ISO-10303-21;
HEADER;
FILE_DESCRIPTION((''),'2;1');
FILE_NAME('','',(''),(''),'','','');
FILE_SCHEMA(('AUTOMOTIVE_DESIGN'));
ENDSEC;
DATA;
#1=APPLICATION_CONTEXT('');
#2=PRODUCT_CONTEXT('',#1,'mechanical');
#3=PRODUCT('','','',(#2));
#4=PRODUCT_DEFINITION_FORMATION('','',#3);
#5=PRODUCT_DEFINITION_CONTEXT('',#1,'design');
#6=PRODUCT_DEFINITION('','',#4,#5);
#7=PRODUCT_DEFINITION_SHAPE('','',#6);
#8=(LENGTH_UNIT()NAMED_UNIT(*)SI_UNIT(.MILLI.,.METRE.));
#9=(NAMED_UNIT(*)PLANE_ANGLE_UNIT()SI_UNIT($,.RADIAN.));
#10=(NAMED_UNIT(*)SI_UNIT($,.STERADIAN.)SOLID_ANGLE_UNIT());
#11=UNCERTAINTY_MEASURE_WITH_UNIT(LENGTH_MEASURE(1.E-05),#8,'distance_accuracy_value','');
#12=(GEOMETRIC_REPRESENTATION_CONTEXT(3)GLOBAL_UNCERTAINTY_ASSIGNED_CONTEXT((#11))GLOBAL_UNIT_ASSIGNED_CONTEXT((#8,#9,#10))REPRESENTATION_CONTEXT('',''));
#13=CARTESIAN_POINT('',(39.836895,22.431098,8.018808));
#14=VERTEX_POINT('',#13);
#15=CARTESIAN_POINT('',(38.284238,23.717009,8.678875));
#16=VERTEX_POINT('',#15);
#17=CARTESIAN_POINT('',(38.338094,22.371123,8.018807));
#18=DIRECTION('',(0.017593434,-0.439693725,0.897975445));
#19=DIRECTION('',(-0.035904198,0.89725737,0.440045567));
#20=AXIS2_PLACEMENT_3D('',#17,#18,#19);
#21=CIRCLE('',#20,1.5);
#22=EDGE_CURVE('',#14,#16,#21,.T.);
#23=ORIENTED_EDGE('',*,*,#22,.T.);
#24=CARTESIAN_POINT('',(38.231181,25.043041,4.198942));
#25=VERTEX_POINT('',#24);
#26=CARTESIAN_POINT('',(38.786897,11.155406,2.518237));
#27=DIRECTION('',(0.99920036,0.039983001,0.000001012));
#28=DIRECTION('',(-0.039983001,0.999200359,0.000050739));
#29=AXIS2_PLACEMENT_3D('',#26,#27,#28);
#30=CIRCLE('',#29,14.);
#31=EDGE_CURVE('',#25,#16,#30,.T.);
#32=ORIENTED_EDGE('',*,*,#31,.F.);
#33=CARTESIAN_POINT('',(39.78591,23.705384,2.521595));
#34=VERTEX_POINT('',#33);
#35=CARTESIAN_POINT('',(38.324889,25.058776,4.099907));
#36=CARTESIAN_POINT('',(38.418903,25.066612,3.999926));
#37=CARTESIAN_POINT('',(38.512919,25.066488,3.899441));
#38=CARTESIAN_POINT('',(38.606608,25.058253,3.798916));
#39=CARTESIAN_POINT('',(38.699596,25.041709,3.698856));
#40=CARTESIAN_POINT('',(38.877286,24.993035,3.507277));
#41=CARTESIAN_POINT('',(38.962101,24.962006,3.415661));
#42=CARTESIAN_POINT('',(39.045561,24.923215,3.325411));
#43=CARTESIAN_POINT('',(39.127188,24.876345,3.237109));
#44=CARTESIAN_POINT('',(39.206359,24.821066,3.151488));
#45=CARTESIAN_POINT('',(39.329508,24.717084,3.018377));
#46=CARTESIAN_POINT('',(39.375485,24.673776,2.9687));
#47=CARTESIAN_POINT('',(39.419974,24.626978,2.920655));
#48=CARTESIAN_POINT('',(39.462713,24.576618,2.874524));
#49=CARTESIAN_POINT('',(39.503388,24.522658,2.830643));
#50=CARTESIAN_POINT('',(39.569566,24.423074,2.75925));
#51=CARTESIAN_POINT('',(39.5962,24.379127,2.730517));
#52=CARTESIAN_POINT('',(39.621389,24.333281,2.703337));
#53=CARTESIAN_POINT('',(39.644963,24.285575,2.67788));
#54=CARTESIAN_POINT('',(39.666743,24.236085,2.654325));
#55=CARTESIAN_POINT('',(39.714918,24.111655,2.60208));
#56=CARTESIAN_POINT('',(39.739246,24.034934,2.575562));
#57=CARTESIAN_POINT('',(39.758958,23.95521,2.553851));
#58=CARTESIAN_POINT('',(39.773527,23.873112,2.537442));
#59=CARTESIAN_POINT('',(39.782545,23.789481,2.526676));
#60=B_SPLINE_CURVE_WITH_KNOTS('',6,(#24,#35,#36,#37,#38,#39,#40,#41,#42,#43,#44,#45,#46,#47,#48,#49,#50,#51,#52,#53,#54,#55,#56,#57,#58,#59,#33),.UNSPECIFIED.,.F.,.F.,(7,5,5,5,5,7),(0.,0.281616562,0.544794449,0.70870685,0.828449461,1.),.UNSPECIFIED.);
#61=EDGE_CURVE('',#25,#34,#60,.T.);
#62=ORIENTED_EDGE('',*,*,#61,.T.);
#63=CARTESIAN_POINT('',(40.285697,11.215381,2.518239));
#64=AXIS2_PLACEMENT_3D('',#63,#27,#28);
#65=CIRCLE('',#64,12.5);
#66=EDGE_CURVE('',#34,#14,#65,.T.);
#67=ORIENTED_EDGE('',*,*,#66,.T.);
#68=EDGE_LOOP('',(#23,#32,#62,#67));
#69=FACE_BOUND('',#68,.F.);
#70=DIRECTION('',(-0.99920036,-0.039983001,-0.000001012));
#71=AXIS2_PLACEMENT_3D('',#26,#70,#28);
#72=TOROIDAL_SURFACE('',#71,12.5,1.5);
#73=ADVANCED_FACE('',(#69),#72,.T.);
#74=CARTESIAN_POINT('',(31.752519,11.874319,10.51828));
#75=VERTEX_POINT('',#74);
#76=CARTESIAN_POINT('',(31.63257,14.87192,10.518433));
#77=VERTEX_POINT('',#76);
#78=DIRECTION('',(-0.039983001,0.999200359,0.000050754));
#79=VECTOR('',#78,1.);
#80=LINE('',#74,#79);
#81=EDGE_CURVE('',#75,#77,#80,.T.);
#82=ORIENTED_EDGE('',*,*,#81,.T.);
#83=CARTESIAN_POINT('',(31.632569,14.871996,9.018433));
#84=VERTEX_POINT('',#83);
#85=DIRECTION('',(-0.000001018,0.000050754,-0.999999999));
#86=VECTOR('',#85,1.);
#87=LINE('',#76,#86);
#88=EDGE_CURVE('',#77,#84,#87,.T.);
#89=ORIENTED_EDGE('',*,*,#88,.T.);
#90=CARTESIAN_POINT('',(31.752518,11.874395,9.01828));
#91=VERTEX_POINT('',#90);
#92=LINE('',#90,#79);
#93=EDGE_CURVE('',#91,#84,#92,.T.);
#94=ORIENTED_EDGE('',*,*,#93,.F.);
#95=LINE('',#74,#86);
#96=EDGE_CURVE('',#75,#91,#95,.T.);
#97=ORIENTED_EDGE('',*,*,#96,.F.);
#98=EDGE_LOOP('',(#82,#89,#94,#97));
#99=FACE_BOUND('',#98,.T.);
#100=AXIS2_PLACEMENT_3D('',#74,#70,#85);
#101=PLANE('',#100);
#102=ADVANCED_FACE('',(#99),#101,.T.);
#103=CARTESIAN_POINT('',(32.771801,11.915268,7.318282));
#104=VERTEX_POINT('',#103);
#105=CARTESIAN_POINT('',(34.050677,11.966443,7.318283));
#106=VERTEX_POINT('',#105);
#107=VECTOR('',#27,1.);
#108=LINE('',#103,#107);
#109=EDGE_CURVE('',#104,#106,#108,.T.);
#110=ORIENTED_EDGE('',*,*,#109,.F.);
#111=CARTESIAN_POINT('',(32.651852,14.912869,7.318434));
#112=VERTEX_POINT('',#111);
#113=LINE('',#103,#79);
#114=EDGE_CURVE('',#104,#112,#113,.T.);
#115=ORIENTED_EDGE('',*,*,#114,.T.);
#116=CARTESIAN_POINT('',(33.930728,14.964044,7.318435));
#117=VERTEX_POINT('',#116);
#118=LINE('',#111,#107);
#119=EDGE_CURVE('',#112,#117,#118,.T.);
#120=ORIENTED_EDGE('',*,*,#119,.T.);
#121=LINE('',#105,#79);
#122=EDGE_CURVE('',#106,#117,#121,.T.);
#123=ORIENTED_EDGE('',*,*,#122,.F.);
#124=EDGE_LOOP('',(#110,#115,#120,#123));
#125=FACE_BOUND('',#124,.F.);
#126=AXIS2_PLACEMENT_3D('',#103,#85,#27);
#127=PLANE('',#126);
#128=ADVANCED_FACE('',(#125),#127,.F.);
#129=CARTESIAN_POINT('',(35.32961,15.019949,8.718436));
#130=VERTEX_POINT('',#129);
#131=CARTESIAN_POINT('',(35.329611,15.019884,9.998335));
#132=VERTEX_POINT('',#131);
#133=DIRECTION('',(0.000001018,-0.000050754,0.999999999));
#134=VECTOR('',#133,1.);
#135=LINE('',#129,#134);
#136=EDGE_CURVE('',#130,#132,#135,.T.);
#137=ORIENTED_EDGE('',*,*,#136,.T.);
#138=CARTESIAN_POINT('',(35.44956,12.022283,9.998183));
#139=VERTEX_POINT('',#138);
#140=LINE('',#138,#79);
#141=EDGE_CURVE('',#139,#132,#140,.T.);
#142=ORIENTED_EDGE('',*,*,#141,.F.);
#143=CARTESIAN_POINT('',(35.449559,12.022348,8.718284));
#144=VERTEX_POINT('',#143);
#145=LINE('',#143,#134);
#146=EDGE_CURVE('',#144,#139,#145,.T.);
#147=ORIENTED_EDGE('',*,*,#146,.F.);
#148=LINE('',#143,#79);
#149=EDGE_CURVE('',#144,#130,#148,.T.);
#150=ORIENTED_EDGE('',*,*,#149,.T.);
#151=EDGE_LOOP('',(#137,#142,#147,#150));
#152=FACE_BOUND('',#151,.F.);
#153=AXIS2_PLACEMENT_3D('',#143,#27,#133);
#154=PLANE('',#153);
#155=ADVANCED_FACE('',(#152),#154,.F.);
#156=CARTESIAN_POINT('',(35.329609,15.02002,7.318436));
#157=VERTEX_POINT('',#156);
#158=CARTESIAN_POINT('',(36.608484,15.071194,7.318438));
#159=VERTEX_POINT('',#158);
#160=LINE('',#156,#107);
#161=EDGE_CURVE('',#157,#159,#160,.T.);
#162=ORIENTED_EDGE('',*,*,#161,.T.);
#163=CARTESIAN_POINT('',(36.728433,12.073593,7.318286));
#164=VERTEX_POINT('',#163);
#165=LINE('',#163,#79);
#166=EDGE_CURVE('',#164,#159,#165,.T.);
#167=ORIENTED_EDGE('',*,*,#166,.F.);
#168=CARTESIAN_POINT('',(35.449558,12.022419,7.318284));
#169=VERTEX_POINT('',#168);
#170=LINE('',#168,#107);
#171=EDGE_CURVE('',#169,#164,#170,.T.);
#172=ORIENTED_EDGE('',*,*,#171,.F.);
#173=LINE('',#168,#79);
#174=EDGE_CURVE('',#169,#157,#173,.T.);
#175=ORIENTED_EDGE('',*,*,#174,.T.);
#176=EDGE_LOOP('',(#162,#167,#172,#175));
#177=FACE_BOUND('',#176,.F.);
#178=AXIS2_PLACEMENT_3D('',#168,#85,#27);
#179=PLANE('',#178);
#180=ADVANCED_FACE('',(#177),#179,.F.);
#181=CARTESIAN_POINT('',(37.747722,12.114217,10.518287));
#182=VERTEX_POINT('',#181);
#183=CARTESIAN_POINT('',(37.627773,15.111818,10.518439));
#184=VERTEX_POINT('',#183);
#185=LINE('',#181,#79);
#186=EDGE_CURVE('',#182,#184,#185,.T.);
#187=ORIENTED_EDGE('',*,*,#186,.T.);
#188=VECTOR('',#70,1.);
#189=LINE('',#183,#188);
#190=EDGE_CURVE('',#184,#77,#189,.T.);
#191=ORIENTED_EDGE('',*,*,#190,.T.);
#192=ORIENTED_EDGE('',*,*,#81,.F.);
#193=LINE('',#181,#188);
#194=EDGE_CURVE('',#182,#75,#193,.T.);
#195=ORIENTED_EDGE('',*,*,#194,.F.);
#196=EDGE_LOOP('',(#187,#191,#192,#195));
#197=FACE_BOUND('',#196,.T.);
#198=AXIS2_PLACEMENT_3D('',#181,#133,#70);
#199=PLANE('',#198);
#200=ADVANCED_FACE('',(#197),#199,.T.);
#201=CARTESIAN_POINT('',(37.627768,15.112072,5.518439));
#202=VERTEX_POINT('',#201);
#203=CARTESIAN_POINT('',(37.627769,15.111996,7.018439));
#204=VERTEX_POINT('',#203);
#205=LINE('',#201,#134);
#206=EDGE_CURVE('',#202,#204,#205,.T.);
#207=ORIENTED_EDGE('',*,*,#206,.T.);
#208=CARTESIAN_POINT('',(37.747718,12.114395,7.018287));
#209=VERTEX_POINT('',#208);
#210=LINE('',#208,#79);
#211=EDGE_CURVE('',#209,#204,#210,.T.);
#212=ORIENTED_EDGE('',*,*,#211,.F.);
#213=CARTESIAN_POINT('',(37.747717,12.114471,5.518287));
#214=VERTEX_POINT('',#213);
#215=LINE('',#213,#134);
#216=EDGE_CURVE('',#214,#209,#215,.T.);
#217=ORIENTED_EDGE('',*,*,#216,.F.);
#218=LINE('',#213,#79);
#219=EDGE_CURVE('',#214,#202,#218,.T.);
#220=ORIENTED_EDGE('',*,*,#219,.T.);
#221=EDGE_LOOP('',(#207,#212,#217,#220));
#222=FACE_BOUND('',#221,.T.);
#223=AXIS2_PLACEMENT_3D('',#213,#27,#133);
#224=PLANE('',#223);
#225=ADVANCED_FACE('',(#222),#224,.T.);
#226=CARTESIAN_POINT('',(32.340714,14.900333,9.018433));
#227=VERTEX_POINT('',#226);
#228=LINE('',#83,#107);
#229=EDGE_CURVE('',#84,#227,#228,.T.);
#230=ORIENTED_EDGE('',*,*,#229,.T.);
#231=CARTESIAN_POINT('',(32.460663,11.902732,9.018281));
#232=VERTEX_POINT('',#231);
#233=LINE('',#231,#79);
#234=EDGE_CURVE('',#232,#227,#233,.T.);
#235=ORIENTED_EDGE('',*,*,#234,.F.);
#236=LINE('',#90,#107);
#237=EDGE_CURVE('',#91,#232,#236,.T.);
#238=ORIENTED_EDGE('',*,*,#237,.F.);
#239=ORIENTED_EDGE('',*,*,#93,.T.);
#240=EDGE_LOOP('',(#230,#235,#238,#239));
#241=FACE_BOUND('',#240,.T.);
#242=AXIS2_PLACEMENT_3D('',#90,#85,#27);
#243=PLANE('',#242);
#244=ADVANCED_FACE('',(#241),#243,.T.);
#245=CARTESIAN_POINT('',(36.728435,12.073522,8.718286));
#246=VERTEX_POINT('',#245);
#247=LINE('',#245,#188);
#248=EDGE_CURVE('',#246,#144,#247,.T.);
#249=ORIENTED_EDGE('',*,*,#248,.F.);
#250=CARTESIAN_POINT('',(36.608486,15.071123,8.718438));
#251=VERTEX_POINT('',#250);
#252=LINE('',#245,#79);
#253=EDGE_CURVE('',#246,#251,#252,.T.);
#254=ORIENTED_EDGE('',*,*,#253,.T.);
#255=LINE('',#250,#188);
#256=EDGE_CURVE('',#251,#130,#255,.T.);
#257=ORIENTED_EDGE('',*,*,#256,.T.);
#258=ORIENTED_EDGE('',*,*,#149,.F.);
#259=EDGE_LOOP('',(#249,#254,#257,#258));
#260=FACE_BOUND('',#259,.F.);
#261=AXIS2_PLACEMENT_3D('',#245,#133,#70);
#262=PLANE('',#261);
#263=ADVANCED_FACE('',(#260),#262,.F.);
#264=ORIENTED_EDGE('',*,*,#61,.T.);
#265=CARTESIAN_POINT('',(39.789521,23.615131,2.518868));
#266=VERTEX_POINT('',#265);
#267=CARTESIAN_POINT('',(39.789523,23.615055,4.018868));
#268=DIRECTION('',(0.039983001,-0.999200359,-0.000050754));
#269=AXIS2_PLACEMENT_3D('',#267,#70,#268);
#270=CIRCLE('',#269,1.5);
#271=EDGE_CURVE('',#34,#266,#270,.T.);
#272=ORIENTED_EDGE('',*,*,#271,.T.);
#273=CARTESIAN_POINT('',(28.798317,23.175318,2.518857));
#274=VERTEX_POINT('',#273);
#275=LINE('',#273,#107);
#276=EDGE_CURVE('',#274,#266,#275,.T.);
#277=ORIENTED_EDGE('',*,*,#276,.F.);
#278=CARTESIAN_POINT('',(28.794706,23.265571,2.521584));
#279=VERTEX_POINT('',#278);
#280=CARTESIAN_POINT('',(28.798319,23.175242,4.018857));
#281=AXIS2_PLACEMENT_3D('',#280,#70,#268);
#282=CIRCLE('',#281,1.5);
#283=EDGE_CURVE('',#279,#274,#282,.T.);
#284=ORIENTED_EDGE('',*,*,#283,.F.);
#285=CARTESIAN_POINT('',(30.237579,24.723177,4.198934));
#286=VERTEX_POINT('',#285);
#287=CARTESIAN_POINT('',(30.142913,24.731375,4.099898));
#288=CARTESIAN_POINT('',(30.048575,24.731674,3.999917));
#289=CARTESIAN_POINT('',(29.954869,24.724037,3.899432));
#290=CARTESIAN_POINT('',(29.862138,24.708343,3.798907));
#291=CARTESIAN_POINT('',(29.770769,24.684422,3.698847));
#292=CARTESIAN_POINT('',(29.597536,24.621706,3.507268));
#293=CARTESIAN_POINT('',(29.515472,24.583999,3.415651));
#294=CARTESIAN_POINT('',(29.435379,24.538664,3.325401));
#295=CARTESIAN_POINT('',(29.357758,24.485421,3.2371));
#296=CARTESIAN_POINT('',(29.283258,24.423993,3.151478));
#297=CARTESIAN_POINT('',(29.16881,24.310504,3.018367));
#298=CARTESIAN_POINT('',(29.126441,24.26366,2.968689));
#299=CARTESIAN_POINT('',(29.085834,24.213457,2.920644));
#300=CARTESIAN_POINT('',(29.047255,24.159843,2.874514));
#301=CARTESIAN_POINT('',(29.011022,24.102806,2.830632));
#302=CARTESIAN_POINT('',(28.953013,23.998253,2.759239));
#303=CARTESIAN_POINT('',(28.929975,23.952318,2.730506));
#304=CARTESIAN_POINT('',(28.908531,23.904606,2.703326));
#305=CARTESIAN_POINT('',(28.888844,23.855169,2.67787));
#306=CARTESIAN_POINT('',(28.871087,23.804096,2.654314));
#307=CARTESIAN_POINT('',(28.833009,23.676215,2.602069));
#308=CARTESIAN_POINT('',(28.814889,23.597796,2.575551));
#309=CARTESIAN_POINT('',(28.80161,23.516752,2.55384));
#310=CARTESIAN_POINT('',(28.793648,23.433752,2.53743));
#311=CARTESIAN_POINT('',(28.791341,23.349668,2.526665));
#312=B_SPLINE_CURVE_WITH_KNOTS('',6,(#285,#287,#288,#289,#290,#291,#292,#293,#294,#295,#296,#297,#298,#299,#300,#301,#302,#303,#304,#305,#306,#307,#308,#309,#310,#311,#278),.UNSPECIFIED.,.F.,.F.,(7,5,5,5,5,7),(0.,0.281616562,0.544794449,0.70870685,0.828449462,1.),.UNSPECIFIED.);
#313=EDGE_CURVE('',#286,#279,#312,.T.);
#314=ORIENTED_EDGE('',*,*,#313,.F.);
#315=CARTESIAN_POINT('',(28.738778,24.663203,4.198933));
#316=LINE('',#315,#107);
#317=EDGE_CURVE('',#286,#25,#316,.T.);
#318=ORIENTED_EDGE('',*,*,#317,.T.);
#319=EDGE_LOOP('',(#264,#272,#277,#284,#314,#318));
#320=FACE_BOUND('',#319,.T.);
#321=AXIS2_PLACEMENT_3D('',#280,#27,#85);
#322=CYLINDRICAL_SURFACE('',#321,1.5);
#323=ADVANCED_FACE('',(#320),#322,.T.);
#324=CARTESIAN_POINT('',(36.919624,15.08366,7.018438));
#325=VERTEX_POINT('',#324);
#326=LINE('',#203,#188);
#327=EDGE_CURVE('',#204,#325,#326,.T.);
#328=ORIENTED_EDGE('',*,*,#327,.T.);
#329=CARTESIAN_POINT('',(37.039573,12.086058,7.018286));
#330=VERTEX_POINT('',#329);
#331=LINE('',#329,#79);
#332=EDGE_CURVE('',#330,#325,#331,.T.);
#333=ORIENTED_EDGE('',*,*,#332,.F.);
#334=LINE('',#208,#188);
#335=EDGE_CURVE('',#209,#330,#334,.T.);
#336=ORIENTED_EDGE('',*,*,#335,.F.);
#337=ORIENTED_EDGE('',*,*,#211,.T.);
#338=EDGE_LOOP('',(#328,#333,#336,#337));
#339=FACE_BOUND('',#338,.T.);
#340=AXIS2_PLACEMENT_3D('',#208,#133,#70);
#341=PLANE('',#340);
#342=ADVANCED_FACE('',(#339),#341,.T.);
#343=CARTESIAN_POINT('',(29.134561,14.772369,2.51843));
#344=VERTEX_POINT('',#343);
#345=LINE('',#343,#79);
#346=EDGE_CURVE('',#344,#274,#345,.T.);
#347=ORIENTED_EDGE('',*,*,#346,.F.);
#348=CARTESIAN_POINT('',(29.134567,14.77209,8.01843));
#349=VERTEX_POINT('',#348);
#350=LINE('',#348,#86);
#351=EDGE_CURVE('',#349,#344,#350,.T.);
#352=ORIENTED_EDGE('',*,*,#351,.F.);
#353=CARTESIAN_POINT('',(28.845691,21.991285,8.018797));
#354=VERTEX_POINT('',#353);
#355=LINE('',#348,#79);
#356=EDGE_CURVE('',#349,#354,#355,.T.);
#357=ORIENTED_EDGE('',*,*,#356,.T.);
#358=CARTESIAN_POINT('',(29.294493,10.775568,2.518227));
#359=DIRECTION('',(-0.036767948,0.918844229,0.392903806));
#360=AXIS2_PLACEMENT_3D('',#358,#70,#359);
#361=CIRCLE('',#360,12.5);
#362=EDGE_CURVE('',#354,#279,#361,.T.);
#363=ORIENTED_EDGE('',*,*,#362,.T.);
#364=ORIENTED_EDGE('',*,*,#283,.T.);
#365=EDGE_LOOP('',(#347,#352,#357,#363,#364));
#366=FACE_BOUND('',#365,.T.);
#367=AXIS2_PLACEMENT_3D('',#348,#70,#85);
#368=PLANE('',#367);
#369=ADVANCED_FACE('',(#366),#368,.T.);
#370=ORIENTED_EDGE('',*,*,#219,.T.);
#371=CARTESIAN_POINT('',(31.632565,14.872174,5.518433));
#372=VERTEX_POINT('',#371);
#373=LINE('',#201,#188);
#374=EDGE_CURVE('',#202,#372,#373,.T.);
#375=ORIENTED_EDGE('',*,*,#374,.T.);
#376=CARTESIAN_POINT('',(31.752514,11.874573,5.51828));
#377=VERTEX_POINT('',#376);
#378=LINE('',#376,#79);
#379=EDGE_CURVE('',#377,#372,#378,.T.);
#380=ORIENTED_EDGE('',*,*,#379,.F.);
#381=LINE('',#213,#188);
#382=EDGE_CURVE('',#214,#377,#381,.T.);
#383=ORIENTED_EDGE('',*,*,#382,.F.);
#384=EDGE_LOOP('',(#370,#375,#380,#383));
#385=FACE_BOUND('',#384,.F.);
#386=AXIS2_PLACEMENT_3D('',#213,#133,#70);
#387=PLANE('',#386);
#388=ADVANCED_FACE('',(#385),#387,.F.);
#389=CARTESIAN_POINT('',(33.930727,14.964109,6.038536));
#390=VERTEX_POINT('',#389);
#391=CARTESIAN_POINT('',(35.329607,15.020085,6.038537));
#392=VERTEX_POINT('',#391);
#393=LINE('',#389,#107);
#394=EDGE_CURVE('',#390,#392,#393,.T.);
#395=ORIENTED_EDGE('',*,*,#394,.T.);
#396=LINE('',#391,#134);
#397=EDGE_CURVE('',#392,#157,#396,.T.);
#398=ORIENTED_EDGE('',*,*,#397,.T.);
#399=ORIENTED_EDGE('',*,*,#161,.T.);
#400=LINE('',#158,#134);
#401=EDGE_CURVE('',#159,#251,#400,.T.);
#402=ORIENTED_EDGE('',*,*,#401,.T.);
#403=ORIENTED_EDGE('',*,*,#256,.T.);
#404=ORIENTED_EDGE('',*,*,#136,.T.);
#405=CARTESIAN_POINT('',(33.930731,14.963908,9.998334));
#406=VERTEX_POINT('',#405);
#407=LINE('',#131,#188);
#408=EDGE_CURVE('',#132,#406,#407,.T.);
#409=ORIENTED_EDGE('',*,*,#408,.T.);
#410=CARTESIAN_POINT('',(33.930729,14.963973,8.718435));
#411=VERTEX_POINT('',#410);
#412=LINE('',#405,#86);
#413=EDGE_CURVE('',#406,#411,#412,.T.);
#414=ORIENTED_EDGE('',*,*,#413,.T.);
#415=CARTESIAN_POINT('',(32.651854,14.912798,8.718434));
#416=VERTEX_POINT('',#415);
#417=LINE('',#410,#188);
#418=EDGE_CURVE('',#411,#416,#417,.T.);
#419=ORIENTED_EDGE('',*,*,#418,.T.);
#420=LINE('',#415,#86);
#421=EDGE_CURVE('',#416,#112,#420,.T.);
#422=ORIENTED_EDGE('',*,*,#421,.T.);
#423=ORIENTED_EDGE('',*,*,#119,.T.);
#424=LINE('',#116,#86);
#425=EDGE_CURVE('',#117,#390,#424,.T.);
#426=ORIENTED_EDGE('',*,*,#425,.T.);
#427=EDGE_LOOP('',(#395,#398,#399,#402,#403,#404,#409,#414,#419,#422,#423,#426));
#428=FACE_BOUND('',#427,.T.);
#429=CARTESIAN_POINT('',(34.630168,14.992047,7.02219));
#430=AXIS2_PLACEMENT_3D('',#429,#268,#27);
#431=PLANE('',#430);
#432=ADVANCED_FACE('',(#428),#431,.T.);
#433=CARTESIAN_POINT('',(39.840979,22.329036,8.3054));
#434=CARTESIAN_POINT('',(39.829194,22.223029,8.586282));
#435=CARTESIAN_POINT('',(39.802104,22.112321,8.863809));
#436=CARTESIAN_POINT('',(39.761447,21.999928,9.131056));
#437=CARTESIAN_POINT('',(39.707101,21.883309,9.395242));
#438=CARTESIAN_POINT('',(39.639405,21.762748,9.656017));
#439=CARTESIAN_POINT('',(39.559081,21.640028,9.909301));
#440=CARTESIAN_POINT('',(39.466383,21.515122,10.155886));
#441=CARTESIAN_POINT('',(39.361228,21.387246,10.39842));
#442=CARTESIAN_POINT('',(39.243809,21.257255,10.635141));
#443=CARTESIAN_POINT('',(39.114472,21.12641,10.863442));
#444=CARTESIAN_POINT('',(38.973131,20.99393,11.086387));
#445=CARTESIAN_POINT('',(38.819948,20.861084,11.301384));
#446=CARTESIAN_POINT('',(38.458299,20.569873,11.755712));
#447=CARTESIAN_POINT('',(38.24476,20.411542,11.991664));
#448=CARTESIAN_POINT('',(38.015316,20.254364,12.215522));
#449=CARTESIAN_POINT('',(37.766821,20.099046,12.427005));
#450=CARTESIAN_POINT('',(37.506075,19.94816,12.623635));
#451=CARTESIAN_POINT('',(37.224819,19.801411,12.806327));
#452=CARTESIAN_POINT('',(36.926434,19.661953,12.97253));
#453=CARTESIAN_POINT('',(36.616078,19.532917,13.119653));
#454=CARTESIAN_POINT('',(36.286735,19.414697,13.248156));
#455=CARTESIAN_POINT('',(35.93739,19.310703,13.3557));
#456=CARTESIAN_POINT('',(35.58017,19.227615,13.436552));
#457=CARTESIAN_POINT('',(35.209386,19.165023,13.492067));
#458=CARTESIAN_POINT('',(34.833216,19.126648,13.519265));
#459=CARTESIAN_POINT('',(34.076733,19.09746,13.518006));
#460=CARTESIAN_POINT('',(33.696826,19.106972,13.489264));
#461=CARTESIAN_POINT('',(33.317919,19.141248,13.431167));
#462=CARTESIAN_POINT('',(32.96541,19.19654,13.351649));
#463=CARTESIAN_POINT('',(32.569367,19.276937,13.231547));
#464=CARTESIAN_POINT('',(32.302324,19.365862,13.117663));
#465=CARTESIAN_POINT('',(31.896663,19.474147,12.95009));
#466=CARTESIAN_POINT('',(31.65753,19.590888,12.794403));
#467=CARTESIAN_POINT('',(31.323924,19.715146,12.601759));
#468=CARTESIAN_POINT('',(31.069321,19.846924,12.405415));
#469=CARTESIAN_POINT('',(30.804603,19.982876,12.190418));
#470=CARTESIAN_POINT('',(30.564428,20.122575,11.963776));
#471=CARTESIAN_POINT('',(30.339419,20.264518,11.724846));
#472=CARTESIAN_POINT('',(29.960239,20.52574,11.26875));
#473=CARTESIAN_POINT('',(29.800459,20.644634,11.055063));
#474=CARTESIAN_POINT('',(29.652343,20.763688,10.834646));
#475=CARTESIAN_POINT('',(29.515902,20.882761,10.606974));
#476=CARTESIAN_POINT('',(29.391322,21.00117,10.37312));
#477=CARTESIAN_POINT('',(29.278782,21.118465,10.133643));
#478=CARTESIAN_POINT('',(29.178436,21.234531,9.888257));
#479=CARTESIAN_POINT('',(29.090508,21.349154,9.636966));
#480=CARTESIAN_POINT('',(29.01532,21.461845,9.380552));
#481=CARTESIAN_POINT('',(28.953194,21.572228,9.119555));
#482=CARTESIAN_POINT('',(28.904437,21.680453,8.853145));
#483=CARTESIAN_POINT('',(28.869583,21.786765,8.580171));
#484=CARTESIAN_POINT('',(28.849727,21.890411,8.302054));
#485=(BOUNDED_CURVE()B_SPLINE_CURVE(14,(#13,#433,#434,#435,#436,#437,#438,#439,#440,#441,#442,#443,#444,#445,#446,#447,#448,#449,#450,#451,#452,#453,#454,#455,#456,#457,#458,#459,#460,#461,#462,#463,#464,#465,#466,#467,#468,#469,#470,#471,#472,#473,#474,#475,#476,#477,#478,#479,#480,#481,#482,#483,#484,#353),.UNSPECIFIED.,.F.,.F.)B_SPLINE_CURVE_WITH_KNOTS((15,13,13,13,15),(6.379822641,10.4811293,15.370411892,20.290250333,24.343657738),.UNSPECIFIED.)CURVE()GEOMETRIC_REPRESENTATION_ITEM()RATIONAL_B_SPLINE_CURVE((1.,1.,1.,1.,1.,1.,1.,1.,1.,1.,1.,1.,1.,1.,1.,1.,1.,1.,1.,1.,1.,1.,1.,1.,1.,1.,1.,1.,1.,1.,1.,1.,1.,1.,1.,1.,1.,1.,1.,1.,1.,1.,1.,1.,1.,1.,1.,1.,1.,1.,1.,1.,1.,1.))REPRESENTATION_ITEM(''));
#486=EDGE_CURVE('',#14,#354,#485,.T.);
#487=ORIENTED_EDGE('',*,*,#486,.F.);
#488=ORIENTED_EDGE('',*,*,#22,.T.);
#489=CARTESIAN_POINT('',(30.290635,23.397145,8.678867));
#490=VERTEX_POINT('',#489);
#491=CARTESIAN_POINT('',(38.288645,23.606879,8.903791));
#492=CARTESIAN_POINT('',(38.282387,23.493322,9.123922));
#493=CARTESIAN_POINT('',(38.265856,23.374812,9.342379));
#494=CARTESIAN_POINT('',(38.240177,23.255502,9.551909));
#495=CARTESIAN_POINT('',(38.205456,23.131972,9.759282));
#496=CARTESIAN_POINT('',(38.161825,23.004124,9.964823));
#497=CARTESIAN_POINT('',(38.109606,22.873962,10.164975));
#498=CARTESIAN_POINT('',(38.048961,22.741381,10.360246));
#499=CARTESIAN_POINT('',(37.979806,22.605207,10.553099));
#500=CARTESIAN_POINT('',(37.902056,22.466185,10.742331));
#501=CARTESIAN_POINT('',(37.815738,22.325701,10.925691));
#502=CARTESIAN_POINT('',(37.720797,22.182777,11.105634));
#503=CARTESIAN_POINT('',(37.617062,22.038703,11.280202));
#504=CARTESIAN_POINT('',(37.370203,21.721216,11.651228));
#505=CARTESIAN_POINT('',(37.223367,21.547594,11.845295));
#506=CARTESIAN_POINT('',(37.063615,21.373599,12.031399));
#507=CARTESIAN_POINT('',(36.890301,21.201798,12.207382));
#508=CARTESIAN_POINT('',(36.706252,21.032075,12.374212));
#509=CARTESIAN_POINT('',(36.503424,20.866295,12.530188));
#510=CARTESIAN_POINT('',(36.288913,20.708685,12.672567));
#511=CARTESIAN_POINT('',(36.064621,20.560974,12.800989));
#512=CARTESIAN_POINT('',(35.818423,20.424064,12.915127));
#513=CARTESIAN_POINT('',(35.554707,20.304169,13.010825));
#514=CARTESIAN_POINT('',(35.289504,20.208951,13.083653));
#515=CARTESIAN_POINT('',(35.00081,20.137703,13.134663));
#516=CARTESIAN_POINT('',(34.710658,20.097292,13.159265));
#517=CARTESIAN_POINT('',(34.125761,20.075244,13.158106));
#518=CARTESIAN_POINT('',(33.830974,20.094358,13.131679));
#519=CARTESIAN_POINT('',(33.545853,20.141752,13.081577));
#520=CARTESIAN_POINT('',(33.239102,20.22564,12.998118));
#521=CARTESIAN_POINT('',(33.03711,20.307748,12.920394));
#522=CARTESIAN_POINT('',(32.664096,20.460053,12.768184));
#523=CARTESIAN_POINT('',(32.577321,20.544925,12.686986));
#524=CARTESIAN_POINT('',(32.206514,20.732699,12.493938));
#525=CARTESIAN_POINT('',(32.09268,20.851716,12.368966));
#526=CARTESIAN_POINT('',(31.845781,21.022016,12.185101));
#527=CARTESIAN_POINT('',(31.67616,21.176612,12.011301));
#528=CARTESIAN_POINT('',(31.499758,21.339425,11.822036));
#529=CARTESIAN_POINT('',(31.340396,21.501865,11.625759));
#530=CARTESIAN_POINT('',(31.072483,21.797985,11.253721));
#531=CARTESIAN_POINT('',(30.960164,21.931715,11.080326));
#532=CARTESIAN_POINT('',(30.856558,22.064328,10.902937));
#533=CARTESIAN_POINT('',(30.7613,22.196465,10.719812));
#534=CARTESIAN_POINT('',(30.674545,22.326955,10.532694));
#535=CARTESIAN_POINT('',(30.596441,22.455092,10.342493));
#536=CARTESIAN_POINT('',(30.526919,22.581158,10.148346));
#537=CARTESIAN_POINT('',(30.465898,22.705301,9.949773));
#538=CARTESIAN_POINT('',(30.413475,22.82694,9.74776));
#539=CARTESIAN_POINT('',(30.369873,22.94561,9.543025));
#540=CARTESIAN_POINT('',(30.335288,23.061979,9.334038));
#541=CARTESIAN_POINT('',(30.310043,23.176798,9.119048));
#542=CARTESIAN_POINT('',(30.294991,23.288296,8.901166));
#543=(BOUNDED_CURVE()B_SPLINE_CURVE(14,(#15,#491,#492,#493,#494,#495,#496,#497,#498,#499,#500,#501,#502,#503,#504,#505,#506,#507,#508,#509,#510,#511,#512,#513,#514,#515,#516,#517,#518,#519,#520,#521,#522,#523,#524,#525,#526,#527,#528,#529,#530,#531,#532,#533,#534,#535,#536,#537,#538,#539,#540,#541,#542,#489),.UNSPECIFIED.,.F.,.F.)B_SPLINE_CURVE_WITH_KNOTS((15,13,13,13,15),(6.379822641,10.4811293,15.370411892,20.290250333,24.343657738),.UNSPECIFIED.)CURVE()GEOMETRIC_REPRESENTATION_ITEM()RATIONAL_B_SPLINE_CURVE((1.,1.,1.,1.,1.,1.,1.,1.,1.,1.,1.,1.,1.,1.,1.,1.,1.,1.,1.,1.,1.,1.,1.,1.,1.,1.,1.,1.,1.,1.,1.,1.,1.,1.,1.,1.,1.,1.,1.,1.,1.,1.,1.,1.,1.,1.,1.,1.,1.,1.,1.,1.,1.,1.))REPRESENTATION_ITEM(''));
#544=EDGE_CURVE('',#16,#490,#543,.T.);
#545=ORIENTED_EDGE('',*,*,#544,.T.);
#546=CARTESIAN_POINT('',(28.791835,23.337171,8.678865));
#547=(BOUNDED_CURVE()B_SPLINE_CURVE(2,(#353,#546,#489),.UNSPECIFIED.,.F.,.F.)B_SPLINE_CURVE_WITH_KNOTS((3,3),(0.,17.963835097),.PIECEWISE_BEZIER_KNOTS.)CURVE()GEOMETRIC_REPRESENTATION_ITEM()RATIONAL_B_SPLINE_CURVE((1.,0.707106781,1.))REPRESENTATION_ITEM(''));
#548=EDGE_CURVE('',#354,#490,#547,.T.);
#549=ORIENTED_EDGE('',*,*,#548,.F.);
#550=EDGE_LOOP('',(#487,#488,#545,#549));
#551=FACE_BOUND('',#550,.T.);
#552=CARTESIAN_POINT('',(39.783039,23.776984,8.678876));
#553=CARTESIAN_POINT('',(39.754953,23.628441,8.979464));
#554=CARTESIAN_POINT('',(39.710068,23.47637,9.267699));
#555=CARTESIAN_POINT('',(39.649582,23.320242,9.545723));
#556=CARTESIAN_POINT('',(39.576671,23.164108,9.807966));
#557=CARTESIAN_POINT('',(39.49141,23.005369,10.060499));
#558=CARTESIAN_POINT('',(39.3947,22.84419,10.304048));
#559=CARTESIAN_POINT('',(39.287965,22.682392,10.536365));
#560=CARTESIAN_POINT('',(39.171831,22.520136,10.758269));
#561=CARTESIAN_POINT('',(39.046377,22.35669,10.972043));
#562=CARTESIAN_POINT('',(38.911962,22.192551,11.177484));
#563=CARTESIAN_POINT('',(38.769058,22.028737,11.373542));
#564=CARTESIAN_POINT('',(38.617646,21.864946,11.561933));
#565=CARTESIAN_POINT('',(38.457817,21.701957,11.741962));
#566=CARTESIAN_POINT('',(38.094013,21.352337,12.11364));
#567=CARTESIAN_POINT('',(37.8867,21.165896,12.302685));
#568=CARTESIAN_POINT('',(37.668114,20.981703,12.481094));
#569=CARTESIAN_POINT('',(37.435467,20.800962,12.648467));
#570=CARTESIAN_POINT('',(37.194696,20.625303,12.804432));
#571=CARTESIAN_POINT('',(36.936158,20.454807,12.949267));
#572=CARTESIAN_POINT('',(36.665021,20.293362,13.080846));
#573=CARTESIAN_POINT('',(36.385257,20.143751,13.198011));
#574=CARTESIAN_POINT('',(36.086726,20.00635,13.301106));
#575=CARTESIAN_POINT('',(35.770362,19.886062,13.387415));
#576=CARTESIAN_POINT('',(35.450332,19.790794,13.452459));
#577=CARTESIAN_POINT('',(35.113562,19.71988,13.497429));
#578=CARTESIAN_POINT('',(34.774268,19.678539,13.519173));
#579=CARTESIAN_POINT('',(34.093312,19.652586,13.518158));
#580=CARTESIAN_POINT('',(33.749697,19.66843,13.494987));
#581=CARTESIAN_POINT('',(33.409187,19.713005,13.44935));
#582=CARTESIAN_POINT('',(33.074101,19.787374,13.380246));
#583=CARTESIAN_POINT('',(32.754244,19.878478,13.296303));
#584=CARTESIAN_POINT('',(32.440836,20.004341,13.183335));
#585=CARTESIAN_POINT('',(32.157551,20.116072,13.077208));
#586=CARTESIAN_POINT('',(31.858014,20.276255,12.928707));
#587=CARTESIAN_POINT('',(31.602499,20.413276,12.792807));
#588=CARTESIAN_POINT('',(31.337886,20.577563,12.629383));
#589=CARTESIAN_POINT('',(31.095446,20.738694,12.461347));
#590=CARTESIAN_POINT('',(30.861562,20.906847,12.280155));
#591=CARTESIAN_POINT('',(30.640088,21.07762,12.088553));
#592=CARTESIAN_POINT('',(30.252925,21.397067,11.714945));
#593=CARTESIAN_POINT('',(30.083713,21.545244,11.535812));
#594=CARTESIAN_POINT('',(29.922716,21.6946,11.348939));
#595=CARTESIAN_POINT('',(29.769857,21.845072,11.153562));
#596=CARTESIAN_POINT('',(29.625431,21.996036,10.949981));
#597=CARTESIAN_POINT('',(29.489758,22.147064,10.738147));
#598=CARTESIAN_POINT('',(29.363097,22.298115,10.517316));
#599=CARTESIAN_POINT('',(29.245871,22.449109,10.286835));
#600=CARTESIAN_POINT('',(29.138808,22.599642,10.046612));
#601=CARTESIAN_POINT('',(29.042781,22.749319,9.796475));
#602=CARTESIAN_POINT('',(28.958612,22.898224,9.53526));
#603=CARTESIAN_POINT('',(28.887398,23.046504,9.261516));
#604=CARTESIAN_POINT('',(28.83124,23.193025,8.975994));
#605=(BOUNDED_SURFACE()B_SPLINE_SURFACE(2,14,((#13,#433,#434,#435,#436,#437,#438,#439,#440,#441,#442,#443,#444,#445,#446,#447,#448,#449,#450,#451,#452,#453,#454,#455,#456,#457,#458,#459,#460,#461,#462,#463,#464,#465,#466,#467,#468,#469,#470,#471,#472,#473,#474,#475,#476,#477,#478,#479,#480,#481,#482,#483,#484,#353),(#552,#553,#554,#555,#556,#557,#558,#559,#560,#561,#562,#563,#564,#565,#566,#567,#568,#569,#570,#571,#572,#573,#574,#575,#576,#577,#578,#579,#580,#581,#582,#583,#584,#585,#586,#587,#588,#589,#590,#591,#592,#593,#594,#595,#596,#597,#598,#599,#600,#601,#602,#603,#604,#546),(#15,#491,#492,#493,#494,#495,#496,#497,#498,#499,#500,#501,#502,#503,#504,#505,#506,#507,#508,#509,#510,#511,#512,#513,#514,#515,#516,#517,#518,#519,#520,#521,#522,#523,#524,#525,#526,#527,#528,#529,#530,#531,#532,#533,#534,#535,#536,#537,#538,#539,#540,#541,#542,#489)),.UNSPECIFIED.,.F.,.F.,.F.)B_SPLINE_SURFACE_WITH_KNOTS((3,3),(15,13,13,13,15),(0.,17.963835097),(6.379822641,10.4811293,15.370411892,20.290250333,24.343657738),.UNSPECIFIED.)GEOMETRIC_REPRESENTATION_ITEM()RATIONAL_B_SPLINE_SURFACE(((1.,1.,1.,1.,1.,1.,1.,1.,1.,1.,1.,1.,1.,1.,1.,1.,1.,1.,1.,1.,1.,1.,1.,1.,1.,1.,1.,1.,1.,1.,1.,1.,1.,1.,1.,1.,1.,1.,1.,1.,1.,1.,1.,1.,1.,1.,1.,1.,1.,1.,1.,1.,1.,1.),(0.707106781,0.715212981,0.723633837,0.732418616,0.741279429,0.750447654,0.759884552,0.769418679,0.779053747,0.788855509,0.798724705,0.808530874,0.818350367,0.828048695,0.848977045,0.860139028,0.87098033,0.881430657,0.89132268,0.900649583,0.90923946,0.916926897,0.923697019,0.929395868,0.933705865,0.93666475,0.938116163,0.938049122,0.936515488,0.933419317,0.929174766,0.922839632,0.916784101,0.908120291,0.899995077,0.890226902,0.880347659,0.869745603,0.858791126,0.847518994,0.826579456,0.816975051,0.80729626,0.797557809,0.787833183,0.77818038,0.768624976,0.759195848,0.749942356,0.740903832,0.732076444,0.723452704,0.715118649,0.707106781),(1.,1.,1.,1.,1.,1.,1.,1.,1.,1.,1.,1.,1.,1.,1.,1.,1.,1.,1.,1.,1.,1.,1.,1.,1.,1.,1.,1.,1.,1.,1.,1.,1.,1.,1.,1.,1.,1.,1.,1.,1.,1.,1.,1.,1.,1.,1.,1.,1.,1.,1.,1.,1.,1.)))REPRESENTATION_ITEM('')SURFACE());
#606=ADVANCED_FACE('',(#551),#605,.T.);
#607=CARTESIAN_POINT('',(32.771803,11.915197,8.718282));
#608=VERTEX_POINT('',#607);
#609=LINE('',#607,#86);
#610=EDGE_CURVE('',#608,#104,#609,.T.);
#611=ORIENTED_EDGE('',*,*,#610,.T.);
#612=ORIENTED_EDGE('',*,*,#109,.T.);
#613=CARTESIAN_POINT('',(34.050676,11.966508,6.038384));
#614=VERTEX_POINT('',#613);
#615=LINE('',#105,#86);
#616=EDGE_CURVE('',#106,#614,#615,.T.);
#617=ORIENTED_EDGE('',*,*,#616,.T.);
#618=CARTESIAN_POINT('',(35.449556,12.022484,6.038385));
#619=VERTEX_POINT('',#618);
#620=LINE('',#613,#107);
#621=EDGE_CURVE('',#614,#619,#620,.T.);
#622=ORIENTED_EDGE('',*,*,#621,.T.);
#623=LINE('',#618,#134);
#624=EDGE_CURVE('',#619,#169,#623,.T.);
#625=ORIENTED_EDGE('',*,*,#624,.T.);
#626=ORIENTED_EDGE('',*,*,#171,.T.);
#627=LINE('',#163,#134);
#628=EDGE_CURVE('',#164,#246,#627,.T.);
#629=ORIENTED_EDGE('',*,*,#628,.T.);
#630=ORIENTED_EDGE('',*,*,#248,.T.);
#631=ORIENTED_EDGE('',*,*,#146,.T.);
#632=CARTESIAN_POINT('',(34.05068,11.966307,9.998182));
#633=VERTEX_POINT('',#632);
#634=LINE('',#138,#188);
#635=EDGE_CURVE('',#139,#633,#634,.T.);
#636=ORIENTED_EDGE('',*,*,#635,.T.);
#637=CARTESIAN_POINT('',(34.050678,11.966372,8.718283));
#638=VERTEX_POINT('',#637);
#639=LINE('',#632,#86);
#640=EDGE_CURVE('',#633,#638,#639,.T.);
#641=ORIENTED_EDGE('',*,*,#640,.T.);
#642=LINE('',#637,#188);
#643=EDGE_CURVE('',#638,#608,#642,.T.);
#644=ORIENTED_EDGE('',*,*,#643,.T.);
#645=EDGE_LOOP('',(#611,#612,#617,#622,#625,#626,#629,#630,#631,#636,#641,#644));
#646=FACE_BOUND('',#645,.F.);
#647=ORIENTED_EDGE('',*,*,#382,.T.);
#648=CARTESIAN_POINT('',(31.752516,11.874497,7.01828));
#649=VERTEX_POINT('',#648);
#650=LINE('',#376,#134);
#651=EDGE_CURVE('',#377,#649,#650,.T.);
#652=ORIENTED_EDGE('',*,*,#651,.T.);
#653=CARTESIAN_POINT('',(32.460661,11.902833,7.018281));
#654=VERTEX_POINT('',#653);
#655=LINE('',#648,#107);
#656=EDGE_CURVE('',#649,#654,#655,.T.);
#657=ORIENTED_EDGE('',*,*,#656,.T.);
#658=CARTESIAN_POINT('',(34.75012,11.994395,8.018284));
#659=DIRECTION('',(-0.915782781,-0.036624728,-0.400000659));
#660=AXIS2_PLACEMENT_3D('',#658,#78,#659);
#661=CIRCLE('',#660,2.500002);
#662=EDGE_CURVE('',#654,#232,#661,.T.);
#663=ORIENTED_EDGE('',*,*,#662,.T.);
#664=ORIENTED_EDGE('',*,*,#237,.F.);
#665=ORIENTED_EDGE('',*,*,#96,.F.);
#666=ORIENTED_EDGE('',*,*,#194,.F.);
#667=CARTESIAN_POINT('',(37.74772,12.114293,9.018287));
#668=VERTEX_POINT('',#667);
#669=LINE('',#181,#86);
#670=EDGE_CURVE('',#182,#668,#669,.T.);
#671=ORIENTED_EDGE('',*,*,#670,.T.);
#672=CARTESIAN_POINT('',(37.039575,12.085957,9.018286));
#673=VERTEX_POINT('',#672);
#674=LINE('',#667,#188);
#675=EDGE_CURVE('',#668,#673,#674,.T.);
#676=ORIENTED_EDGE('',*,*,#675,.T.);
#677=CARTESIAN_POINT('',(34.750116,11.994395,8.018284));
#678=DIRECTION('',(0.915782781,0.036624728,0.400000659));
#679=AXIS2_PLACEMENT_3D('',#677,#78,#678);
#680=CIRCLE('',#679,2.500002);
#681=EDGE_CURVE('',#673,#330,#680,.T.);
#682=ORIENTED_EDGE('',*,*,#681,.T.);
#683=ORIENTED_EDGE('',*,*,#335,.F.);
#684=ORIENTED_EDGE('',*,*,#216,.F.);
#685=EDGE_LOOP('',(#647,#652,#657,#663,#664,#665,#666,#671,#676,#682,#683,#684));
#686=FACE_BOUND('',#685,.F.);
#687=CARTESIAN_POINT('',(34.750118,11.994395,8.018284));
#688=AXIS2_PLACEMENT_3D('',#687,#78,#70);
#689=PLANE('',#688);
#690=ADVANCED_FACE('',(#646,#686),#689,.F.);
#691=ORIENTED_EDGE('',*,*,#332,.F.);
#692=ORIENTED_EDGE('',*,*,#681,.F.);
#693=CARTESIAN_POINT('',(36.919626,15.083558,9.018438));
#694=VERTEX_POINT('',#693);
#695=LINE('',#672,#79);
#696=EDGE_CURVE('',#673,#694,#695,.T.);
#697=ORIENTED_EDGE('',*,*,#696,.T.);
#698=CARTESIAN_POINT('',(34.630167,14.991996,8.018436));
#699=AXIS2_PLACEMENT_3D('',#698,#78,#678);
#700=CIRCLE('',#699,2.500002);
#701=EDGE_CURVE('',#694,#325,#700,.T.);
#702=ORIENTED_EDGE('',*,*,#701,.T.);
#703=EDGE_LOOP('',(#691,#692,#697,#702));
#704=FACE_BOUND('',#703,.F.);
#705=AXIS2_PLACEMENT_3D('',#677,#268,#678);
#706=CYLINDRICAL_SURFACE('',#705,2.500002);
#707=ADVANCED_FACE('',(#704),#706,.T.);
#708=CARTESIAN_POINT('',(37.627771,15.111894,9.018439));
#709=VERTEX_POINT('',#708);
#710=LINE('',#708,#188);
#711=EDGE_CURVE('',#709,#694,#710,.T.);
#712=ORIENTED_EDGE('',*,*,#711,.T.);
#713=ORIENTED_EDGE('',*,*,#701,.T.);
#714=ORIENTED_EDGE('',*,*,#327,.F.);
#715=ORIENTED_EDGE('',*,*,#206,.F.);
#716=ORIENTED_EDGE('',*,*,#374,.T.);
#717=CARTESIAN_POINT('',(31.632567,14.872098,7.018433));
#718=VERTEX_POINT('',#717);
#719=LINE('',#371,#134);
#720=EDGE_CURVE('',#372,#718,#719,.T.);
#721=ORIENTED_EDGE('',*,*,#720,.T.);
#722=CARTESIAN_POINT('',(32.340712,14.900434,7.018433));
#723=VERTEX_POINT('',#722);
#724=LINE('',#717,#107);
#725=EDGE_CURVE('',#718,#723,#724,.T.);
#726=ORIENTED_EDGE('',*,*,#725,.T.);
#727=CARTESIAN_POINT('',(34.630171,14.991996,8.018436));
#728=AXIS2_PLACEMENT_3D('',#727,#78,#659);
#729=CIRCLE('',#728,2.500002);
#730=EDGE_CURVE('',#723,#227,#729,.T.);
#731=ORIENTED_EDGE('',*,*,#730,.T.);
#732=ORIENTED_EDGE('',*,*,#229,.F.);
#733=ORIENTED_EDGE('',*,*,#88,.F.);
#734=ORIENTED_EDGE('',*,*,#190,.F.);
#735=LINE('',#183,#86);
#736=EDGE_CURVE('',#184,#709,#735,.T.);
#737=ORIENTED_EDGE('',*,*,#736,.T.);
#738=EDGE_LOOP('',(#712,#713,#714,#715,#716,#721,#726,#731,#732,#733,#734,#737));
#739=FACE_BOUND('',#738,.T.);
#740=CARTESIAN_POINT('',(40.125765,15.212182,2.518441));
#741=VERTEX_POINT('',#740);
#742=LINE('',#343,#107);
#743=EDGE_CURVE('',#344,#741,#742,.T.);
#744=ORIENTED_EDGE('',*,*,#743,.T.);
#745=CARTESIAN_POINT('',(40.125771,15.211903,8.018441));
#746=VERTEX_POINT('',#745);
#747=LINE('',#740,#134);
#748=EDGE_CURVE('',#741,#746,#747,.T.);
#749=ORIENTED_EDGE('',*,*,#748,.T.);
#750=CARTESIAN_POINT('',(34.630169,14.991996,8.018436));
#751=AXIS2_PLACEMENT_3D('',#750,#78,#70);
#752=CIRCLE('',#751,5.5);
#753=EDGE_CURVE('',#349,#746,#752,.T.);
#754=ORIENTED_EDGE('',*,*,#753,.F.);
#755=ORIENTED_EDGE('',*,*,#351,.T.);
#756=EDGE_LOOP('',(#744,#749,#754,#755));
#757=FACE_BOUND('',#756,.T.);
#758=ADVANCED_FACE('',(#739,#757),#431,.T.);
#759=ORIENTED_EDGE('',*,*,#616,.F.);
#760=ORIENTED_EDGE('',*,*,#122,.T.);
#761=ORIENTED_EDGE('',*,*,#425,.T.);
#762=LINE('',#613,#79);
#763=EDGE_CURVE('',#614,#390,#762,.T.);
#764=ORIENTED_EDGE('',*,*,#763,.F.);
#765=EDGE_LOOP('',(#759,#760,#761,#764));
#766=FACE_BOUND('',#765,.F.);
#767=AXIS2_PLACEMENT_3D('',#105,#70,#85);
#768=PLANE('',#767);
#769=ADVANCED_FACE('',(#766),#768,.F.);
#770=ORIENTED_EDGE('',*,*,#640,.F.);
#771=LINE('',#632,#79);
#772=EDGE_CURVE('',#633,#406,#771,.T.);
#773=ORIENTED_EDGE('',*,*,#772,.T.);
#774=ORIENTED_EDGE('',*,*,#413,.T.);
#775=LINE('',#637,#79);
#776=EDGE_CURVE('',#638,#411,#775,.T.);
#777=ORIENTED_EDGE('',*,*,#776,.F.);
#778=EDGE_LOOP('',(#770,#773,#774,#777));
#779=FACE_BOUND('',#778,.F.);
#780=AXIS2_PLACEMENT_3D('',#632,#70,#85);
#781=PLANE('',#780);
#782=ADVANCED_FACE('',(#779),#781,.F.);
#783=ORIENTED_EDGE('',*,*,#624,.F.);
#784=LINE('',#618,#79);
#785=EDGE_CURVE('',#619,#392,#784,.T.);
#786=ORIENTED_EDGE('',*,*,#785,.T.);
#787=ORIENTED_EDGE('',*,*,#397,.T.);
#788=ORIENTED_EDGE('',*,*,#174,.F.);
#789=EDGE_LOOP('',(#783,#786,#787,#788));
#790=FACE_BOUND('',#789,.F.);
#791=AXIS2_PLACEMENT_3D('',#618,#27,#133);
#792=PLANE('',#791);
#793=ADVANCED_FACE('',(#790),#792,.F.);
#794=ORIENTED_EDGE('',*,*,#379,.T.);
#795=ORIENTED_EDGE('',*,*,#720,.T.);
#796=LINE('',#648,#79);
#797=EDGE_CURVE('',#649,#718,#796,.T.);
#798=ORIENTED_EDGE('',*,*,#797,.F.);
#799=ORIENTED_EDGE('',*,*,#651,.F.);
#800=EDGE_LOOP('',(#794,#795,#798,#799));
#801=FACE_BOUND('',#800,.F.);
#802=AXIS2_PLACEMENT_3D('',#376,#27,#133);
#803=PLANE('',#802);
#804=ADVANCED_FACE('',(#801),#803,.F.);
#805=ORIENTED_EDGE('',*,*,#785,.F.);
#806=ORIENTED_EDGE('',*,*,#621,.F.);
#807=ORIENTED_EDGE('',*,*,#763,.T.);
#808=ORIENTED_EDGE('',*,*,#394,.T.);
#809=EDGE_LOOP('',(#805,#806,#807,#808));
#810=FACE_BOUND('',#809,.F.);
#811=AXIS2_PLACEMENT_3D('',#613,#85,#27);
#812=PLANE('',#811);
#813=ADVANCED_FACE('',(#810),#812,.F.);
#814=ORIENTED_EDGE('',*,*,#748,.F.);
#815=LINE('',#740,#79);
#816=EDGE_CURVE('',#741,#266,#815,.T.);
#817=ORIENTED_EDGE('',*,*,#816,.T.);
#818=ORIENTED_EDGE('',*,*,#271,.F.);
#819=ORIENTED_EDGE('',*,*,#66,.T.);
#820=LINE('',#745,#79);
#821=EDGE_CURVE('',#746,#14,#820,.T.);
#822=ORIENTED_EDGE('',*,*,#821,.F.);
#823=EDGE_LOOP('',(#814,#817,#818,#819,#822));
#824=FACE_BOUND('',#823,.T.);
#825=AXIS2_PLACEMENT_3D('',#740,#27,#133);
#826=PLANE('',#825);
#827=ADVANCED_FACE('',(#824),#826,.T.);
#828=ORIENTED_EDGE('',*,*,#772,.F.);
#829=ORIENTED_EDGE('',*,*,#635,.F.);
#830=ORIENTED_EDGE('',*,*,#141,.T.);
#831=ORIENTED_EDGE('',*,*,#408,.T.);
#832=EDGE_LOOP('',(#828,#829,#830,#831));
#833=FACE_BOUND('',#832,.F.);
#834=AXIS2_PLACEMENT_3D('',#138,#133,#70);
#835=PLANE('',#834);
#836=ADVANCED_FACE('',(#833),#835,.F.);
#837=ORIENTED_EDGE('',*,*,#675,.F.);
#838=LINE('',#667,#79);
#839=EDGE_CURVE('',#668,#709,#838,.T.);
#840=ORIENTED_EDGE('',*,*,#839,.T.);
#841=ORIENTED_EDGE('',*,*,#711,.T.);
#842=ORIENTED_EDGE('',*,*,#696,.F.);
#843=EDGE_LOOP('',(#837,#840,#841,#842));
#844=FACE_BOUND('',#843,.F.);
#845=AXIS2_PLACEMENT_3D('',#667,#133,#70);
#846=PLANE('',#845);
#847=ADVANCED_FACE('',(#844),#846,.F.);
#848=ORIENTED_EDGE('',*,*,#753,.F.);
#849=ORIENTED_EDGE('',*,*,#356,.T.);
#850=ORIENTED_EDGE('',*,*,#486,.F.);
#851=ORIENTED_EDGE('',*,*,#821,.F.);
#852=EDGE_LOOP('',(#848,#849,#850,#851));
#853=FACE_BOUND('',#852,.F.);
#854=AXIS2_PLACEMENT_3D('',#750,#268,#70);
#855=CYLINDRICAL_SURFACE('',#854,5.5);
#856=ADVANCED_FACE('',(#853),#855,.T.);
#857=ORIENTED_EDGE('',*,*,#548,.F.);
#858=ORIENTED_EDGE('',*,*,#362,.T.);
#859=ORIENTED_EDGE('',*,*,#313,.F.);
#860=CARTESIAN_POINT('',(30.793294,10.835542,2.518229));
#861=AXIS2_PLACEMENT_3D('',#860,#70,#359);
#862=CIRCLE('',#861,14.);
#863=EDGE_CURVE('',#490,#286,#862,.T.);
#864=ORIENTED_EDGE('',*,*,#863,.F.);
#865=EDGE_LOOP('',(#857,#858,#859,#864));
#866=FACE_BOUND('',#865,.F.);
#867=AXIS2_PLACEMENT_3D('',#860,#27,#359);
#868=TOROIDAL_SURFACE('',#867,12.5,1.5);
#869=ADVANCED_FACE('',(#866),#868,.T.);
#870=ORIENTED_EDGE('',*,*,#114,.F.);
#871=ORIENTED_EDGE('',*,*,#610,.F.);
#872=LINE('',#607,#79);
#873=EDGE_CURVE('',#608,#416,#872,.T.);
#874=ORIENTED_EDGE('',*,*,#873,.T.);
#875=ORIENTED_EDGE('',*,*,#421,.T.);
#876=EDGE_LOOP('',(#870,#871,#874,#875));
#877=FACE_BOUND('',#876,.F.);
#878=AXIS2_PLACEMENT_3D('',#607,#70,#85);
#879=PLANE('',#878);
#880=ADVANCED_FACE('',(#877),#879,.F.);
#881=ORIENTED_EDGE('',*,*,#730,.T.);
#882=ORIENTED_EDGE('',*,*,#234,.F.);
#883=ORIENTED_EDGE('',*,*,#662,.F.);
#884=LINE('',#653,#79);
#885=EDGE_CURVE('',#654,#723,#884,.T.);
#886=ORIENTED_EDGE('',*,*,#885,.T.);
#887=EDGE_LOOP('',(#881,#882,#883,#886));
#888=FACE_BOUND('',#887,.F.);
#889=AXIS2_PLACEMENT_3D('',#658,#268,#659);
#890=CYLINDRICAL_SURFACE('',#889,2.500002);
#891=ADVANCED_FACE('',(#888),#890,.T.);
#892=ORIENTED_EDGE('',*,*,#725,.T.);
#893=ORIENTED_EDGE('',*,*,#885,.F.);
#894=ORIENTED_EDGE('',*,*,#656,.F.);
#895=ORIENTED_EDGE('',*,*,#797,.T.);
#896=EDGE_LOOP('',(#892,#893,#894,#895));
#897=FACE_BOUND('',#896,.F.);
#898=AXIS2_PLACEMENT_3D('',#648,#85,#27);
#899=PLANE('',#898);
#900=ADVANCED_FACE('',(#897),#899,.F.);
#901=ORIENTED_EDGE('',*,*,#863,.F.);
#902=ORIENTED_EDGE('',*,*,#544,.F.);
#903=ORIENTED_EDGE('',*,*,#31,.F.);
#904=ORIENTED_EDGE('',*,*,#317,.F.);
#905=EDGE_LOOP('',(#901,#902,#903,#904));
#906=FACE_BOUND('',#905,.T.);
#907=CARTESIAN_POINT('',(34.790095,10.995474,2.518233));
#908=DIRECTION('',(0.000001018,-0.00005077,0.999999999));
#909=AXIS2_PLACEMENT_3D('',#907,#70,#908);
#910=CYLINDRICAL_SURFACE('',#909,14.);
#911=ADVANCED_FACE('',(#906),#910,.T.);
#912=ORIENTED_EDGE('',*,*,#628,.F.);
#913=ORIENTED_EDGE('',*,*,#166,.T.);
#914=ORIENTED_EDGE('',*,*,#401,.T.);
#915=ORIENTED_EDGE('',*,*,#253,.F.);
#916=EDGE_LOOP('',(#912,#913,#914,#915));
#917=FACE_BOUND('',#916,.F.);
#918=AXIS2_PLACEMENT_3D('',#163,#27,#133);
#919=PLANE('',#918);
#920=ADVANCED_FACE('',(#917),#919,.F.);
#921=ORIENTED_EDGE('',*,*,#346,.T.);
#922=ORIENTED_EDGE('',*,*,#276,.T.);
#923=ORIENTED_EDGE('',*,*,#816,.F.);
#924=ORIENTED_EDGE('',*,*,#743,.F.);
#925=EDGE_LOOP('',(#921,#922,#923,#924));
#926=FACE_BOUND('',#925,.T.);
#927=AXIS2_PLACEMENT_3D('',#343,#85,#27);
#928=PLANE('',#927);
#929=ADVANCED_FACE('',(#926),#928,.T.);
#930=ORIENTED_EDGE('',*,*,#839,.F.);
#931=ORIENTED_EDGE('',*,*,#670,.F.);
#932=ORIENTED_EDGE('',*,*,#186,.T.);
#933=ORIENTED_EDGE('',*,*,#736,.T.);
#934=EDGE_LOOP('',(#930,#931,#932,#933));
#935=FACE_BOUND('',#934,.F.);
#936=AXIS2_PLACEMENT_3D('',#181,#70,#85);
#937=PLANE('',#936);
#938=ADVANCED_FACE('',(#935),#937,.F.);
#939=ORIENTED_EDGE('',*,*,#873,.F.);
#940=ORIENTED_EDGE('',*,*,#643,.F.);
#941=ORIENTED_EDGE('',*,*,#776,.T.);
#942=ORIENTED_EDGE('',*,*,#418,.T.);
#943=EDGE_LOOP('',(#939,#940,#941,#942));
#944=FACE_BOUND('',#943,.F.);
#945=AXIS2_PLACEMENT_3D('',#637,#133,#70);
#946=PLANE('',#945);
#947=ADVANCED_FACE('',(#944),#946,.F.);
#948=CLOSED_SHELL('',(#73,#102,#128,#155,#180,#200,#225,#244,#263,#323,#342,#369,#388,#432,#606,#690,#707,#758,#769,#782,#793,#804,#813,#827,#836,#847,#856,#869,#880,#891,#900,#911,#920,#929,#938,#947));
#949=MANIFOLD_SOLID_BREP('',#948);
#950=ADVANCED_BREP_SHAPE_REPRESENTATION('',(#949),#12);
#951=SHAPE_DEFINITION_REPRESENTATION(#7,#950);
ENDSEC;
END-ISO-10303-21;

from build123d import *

# Parameters (mm, degrees)
PAD112_DEPTH               = 3
PAD126_DEPTH               = 10
POCKET064_DEPTH            = 5.5
FILLET009_R                = 1.5
BODY181005_ROLL_ANGLE      = 89.997092
BODY181005_PITCH_ANGLE     = 5.8e-05
BODY181005_PLACEMENT_ANGLE = -177.708532


with BuildPart() as part:
    # Sketch208 → Pad112 (new body)
    with BuildSketch(Plane.XY):
        with BuildLine():
            ThreePointArc((-2.291288, 1), (-2.5, 0), (-2.291288, -1))
            Line((-3, -1), (-2.291288, -1))
            Line((-3, -2.5), (-3, -1))
            Line((-3, -2.5), (3, -2.5))
            Line((3, -2.5), (3, -1))
            Line((3, -1), (2.291288, -1))
            ThreePointArc((2.291288, -1), (2.5, 0), (2.291288, 1))
            Line((3, 1), (2.291288, 1))
            Line((3, 2.5), (3, 1))
            Line((-3, 2.5), (3, 2.5))
            Line((-3, 2.5), (-3, 1))
            Line((-3, 1), (-2.291288, 1))
        make_face()
        Polygon((-1.979899, 0.7), (-0.7, 0.7), (-0.7, 1.979899), (0.7, 1.979899), (0.7, 0.7), (1.979899, 0.7), (1.979899, -0.7), (0.7, -0.7), (0.7, -1.979899), (-0.7, -1.979899), (-0.7, -0.7), (-1.979899, -0.7), align=None, mode=Mode.SUBTRACT)
    extrude(amount=PAD112_DEPTH)


with BuildPart() as part_1:
    # Body167 placement: moved
    add(part.part.moved(Location((0, 0, 6))))

    # Sketch240 → Pad126 (new body)
    with BuildSketch(Plane.XY.offset(9)):
        with BuildLine():
            Line((5.5, 0), (5.5, -5.5))
            Line((5.5, -5.5), (-5.5, -5.5))
            Line((-5.5, -5.5), (-5.5, 0))
            ThreePointArc((5.5, 0), (0, 5.5), (-5.5, 0))
        make_face()
    extrude(amount=PAD126_DEPTH)

    # Sketch241 → Pocket064 (cut, symmetric)
    with BuildSketch(Plane(origin=(0, -5.5, 5), x_dir=(0, 1, 0), z_dir=(1, 0, 0))):
        with BuildLine():
            ThreePointArc((14, 0), (9.899495, 9.899495), (0, 14))
            Line((0, 14), (14, 14))
            Line((14, 14), (14, 0))
        make_face()
    extrude(amount=POCKET064_DEPTH, both=True, mode=Mode.SUBTRACT)

    # Fillet009
    fillet009_edges = [part_1.edges().sort_by_distance(p)[0] for p in [
        (5.5, -2.693, 18.715712),
        (0, 5.5, 13.660254),
        (-5.5, -2.693, 18.715712),
        (0, -5.5, 19),
    ]]
    fillet(fillet009_edges, radius=FILLET009_R)


with BuildPart() as part_2:
    # Body181005 roll: moved
    add(part_1.part.rotate(Axis((0, 0, 0), (1, 0, 0)), BODY181005_ROLL_ANGLE))


with BuildPart() as part_3:
    # Body181005 pitch: moved
    add(part_2.part.rotate(Axis((0, 0, 0), (0, 1, 0)), BODY181005_PITCH_ANGLE))


with BuildPart() as part_4:
    # Body181005 placement: moved
    add(part_3.part.moved(Location((34.990016, 5.999193, 8.017979))).rotate(Axis((34.990016, 5.999193, 8.017979), (0, 0, 1)), BODY181005_PLACEMENT_ANGLE))


solid = part_4.part
